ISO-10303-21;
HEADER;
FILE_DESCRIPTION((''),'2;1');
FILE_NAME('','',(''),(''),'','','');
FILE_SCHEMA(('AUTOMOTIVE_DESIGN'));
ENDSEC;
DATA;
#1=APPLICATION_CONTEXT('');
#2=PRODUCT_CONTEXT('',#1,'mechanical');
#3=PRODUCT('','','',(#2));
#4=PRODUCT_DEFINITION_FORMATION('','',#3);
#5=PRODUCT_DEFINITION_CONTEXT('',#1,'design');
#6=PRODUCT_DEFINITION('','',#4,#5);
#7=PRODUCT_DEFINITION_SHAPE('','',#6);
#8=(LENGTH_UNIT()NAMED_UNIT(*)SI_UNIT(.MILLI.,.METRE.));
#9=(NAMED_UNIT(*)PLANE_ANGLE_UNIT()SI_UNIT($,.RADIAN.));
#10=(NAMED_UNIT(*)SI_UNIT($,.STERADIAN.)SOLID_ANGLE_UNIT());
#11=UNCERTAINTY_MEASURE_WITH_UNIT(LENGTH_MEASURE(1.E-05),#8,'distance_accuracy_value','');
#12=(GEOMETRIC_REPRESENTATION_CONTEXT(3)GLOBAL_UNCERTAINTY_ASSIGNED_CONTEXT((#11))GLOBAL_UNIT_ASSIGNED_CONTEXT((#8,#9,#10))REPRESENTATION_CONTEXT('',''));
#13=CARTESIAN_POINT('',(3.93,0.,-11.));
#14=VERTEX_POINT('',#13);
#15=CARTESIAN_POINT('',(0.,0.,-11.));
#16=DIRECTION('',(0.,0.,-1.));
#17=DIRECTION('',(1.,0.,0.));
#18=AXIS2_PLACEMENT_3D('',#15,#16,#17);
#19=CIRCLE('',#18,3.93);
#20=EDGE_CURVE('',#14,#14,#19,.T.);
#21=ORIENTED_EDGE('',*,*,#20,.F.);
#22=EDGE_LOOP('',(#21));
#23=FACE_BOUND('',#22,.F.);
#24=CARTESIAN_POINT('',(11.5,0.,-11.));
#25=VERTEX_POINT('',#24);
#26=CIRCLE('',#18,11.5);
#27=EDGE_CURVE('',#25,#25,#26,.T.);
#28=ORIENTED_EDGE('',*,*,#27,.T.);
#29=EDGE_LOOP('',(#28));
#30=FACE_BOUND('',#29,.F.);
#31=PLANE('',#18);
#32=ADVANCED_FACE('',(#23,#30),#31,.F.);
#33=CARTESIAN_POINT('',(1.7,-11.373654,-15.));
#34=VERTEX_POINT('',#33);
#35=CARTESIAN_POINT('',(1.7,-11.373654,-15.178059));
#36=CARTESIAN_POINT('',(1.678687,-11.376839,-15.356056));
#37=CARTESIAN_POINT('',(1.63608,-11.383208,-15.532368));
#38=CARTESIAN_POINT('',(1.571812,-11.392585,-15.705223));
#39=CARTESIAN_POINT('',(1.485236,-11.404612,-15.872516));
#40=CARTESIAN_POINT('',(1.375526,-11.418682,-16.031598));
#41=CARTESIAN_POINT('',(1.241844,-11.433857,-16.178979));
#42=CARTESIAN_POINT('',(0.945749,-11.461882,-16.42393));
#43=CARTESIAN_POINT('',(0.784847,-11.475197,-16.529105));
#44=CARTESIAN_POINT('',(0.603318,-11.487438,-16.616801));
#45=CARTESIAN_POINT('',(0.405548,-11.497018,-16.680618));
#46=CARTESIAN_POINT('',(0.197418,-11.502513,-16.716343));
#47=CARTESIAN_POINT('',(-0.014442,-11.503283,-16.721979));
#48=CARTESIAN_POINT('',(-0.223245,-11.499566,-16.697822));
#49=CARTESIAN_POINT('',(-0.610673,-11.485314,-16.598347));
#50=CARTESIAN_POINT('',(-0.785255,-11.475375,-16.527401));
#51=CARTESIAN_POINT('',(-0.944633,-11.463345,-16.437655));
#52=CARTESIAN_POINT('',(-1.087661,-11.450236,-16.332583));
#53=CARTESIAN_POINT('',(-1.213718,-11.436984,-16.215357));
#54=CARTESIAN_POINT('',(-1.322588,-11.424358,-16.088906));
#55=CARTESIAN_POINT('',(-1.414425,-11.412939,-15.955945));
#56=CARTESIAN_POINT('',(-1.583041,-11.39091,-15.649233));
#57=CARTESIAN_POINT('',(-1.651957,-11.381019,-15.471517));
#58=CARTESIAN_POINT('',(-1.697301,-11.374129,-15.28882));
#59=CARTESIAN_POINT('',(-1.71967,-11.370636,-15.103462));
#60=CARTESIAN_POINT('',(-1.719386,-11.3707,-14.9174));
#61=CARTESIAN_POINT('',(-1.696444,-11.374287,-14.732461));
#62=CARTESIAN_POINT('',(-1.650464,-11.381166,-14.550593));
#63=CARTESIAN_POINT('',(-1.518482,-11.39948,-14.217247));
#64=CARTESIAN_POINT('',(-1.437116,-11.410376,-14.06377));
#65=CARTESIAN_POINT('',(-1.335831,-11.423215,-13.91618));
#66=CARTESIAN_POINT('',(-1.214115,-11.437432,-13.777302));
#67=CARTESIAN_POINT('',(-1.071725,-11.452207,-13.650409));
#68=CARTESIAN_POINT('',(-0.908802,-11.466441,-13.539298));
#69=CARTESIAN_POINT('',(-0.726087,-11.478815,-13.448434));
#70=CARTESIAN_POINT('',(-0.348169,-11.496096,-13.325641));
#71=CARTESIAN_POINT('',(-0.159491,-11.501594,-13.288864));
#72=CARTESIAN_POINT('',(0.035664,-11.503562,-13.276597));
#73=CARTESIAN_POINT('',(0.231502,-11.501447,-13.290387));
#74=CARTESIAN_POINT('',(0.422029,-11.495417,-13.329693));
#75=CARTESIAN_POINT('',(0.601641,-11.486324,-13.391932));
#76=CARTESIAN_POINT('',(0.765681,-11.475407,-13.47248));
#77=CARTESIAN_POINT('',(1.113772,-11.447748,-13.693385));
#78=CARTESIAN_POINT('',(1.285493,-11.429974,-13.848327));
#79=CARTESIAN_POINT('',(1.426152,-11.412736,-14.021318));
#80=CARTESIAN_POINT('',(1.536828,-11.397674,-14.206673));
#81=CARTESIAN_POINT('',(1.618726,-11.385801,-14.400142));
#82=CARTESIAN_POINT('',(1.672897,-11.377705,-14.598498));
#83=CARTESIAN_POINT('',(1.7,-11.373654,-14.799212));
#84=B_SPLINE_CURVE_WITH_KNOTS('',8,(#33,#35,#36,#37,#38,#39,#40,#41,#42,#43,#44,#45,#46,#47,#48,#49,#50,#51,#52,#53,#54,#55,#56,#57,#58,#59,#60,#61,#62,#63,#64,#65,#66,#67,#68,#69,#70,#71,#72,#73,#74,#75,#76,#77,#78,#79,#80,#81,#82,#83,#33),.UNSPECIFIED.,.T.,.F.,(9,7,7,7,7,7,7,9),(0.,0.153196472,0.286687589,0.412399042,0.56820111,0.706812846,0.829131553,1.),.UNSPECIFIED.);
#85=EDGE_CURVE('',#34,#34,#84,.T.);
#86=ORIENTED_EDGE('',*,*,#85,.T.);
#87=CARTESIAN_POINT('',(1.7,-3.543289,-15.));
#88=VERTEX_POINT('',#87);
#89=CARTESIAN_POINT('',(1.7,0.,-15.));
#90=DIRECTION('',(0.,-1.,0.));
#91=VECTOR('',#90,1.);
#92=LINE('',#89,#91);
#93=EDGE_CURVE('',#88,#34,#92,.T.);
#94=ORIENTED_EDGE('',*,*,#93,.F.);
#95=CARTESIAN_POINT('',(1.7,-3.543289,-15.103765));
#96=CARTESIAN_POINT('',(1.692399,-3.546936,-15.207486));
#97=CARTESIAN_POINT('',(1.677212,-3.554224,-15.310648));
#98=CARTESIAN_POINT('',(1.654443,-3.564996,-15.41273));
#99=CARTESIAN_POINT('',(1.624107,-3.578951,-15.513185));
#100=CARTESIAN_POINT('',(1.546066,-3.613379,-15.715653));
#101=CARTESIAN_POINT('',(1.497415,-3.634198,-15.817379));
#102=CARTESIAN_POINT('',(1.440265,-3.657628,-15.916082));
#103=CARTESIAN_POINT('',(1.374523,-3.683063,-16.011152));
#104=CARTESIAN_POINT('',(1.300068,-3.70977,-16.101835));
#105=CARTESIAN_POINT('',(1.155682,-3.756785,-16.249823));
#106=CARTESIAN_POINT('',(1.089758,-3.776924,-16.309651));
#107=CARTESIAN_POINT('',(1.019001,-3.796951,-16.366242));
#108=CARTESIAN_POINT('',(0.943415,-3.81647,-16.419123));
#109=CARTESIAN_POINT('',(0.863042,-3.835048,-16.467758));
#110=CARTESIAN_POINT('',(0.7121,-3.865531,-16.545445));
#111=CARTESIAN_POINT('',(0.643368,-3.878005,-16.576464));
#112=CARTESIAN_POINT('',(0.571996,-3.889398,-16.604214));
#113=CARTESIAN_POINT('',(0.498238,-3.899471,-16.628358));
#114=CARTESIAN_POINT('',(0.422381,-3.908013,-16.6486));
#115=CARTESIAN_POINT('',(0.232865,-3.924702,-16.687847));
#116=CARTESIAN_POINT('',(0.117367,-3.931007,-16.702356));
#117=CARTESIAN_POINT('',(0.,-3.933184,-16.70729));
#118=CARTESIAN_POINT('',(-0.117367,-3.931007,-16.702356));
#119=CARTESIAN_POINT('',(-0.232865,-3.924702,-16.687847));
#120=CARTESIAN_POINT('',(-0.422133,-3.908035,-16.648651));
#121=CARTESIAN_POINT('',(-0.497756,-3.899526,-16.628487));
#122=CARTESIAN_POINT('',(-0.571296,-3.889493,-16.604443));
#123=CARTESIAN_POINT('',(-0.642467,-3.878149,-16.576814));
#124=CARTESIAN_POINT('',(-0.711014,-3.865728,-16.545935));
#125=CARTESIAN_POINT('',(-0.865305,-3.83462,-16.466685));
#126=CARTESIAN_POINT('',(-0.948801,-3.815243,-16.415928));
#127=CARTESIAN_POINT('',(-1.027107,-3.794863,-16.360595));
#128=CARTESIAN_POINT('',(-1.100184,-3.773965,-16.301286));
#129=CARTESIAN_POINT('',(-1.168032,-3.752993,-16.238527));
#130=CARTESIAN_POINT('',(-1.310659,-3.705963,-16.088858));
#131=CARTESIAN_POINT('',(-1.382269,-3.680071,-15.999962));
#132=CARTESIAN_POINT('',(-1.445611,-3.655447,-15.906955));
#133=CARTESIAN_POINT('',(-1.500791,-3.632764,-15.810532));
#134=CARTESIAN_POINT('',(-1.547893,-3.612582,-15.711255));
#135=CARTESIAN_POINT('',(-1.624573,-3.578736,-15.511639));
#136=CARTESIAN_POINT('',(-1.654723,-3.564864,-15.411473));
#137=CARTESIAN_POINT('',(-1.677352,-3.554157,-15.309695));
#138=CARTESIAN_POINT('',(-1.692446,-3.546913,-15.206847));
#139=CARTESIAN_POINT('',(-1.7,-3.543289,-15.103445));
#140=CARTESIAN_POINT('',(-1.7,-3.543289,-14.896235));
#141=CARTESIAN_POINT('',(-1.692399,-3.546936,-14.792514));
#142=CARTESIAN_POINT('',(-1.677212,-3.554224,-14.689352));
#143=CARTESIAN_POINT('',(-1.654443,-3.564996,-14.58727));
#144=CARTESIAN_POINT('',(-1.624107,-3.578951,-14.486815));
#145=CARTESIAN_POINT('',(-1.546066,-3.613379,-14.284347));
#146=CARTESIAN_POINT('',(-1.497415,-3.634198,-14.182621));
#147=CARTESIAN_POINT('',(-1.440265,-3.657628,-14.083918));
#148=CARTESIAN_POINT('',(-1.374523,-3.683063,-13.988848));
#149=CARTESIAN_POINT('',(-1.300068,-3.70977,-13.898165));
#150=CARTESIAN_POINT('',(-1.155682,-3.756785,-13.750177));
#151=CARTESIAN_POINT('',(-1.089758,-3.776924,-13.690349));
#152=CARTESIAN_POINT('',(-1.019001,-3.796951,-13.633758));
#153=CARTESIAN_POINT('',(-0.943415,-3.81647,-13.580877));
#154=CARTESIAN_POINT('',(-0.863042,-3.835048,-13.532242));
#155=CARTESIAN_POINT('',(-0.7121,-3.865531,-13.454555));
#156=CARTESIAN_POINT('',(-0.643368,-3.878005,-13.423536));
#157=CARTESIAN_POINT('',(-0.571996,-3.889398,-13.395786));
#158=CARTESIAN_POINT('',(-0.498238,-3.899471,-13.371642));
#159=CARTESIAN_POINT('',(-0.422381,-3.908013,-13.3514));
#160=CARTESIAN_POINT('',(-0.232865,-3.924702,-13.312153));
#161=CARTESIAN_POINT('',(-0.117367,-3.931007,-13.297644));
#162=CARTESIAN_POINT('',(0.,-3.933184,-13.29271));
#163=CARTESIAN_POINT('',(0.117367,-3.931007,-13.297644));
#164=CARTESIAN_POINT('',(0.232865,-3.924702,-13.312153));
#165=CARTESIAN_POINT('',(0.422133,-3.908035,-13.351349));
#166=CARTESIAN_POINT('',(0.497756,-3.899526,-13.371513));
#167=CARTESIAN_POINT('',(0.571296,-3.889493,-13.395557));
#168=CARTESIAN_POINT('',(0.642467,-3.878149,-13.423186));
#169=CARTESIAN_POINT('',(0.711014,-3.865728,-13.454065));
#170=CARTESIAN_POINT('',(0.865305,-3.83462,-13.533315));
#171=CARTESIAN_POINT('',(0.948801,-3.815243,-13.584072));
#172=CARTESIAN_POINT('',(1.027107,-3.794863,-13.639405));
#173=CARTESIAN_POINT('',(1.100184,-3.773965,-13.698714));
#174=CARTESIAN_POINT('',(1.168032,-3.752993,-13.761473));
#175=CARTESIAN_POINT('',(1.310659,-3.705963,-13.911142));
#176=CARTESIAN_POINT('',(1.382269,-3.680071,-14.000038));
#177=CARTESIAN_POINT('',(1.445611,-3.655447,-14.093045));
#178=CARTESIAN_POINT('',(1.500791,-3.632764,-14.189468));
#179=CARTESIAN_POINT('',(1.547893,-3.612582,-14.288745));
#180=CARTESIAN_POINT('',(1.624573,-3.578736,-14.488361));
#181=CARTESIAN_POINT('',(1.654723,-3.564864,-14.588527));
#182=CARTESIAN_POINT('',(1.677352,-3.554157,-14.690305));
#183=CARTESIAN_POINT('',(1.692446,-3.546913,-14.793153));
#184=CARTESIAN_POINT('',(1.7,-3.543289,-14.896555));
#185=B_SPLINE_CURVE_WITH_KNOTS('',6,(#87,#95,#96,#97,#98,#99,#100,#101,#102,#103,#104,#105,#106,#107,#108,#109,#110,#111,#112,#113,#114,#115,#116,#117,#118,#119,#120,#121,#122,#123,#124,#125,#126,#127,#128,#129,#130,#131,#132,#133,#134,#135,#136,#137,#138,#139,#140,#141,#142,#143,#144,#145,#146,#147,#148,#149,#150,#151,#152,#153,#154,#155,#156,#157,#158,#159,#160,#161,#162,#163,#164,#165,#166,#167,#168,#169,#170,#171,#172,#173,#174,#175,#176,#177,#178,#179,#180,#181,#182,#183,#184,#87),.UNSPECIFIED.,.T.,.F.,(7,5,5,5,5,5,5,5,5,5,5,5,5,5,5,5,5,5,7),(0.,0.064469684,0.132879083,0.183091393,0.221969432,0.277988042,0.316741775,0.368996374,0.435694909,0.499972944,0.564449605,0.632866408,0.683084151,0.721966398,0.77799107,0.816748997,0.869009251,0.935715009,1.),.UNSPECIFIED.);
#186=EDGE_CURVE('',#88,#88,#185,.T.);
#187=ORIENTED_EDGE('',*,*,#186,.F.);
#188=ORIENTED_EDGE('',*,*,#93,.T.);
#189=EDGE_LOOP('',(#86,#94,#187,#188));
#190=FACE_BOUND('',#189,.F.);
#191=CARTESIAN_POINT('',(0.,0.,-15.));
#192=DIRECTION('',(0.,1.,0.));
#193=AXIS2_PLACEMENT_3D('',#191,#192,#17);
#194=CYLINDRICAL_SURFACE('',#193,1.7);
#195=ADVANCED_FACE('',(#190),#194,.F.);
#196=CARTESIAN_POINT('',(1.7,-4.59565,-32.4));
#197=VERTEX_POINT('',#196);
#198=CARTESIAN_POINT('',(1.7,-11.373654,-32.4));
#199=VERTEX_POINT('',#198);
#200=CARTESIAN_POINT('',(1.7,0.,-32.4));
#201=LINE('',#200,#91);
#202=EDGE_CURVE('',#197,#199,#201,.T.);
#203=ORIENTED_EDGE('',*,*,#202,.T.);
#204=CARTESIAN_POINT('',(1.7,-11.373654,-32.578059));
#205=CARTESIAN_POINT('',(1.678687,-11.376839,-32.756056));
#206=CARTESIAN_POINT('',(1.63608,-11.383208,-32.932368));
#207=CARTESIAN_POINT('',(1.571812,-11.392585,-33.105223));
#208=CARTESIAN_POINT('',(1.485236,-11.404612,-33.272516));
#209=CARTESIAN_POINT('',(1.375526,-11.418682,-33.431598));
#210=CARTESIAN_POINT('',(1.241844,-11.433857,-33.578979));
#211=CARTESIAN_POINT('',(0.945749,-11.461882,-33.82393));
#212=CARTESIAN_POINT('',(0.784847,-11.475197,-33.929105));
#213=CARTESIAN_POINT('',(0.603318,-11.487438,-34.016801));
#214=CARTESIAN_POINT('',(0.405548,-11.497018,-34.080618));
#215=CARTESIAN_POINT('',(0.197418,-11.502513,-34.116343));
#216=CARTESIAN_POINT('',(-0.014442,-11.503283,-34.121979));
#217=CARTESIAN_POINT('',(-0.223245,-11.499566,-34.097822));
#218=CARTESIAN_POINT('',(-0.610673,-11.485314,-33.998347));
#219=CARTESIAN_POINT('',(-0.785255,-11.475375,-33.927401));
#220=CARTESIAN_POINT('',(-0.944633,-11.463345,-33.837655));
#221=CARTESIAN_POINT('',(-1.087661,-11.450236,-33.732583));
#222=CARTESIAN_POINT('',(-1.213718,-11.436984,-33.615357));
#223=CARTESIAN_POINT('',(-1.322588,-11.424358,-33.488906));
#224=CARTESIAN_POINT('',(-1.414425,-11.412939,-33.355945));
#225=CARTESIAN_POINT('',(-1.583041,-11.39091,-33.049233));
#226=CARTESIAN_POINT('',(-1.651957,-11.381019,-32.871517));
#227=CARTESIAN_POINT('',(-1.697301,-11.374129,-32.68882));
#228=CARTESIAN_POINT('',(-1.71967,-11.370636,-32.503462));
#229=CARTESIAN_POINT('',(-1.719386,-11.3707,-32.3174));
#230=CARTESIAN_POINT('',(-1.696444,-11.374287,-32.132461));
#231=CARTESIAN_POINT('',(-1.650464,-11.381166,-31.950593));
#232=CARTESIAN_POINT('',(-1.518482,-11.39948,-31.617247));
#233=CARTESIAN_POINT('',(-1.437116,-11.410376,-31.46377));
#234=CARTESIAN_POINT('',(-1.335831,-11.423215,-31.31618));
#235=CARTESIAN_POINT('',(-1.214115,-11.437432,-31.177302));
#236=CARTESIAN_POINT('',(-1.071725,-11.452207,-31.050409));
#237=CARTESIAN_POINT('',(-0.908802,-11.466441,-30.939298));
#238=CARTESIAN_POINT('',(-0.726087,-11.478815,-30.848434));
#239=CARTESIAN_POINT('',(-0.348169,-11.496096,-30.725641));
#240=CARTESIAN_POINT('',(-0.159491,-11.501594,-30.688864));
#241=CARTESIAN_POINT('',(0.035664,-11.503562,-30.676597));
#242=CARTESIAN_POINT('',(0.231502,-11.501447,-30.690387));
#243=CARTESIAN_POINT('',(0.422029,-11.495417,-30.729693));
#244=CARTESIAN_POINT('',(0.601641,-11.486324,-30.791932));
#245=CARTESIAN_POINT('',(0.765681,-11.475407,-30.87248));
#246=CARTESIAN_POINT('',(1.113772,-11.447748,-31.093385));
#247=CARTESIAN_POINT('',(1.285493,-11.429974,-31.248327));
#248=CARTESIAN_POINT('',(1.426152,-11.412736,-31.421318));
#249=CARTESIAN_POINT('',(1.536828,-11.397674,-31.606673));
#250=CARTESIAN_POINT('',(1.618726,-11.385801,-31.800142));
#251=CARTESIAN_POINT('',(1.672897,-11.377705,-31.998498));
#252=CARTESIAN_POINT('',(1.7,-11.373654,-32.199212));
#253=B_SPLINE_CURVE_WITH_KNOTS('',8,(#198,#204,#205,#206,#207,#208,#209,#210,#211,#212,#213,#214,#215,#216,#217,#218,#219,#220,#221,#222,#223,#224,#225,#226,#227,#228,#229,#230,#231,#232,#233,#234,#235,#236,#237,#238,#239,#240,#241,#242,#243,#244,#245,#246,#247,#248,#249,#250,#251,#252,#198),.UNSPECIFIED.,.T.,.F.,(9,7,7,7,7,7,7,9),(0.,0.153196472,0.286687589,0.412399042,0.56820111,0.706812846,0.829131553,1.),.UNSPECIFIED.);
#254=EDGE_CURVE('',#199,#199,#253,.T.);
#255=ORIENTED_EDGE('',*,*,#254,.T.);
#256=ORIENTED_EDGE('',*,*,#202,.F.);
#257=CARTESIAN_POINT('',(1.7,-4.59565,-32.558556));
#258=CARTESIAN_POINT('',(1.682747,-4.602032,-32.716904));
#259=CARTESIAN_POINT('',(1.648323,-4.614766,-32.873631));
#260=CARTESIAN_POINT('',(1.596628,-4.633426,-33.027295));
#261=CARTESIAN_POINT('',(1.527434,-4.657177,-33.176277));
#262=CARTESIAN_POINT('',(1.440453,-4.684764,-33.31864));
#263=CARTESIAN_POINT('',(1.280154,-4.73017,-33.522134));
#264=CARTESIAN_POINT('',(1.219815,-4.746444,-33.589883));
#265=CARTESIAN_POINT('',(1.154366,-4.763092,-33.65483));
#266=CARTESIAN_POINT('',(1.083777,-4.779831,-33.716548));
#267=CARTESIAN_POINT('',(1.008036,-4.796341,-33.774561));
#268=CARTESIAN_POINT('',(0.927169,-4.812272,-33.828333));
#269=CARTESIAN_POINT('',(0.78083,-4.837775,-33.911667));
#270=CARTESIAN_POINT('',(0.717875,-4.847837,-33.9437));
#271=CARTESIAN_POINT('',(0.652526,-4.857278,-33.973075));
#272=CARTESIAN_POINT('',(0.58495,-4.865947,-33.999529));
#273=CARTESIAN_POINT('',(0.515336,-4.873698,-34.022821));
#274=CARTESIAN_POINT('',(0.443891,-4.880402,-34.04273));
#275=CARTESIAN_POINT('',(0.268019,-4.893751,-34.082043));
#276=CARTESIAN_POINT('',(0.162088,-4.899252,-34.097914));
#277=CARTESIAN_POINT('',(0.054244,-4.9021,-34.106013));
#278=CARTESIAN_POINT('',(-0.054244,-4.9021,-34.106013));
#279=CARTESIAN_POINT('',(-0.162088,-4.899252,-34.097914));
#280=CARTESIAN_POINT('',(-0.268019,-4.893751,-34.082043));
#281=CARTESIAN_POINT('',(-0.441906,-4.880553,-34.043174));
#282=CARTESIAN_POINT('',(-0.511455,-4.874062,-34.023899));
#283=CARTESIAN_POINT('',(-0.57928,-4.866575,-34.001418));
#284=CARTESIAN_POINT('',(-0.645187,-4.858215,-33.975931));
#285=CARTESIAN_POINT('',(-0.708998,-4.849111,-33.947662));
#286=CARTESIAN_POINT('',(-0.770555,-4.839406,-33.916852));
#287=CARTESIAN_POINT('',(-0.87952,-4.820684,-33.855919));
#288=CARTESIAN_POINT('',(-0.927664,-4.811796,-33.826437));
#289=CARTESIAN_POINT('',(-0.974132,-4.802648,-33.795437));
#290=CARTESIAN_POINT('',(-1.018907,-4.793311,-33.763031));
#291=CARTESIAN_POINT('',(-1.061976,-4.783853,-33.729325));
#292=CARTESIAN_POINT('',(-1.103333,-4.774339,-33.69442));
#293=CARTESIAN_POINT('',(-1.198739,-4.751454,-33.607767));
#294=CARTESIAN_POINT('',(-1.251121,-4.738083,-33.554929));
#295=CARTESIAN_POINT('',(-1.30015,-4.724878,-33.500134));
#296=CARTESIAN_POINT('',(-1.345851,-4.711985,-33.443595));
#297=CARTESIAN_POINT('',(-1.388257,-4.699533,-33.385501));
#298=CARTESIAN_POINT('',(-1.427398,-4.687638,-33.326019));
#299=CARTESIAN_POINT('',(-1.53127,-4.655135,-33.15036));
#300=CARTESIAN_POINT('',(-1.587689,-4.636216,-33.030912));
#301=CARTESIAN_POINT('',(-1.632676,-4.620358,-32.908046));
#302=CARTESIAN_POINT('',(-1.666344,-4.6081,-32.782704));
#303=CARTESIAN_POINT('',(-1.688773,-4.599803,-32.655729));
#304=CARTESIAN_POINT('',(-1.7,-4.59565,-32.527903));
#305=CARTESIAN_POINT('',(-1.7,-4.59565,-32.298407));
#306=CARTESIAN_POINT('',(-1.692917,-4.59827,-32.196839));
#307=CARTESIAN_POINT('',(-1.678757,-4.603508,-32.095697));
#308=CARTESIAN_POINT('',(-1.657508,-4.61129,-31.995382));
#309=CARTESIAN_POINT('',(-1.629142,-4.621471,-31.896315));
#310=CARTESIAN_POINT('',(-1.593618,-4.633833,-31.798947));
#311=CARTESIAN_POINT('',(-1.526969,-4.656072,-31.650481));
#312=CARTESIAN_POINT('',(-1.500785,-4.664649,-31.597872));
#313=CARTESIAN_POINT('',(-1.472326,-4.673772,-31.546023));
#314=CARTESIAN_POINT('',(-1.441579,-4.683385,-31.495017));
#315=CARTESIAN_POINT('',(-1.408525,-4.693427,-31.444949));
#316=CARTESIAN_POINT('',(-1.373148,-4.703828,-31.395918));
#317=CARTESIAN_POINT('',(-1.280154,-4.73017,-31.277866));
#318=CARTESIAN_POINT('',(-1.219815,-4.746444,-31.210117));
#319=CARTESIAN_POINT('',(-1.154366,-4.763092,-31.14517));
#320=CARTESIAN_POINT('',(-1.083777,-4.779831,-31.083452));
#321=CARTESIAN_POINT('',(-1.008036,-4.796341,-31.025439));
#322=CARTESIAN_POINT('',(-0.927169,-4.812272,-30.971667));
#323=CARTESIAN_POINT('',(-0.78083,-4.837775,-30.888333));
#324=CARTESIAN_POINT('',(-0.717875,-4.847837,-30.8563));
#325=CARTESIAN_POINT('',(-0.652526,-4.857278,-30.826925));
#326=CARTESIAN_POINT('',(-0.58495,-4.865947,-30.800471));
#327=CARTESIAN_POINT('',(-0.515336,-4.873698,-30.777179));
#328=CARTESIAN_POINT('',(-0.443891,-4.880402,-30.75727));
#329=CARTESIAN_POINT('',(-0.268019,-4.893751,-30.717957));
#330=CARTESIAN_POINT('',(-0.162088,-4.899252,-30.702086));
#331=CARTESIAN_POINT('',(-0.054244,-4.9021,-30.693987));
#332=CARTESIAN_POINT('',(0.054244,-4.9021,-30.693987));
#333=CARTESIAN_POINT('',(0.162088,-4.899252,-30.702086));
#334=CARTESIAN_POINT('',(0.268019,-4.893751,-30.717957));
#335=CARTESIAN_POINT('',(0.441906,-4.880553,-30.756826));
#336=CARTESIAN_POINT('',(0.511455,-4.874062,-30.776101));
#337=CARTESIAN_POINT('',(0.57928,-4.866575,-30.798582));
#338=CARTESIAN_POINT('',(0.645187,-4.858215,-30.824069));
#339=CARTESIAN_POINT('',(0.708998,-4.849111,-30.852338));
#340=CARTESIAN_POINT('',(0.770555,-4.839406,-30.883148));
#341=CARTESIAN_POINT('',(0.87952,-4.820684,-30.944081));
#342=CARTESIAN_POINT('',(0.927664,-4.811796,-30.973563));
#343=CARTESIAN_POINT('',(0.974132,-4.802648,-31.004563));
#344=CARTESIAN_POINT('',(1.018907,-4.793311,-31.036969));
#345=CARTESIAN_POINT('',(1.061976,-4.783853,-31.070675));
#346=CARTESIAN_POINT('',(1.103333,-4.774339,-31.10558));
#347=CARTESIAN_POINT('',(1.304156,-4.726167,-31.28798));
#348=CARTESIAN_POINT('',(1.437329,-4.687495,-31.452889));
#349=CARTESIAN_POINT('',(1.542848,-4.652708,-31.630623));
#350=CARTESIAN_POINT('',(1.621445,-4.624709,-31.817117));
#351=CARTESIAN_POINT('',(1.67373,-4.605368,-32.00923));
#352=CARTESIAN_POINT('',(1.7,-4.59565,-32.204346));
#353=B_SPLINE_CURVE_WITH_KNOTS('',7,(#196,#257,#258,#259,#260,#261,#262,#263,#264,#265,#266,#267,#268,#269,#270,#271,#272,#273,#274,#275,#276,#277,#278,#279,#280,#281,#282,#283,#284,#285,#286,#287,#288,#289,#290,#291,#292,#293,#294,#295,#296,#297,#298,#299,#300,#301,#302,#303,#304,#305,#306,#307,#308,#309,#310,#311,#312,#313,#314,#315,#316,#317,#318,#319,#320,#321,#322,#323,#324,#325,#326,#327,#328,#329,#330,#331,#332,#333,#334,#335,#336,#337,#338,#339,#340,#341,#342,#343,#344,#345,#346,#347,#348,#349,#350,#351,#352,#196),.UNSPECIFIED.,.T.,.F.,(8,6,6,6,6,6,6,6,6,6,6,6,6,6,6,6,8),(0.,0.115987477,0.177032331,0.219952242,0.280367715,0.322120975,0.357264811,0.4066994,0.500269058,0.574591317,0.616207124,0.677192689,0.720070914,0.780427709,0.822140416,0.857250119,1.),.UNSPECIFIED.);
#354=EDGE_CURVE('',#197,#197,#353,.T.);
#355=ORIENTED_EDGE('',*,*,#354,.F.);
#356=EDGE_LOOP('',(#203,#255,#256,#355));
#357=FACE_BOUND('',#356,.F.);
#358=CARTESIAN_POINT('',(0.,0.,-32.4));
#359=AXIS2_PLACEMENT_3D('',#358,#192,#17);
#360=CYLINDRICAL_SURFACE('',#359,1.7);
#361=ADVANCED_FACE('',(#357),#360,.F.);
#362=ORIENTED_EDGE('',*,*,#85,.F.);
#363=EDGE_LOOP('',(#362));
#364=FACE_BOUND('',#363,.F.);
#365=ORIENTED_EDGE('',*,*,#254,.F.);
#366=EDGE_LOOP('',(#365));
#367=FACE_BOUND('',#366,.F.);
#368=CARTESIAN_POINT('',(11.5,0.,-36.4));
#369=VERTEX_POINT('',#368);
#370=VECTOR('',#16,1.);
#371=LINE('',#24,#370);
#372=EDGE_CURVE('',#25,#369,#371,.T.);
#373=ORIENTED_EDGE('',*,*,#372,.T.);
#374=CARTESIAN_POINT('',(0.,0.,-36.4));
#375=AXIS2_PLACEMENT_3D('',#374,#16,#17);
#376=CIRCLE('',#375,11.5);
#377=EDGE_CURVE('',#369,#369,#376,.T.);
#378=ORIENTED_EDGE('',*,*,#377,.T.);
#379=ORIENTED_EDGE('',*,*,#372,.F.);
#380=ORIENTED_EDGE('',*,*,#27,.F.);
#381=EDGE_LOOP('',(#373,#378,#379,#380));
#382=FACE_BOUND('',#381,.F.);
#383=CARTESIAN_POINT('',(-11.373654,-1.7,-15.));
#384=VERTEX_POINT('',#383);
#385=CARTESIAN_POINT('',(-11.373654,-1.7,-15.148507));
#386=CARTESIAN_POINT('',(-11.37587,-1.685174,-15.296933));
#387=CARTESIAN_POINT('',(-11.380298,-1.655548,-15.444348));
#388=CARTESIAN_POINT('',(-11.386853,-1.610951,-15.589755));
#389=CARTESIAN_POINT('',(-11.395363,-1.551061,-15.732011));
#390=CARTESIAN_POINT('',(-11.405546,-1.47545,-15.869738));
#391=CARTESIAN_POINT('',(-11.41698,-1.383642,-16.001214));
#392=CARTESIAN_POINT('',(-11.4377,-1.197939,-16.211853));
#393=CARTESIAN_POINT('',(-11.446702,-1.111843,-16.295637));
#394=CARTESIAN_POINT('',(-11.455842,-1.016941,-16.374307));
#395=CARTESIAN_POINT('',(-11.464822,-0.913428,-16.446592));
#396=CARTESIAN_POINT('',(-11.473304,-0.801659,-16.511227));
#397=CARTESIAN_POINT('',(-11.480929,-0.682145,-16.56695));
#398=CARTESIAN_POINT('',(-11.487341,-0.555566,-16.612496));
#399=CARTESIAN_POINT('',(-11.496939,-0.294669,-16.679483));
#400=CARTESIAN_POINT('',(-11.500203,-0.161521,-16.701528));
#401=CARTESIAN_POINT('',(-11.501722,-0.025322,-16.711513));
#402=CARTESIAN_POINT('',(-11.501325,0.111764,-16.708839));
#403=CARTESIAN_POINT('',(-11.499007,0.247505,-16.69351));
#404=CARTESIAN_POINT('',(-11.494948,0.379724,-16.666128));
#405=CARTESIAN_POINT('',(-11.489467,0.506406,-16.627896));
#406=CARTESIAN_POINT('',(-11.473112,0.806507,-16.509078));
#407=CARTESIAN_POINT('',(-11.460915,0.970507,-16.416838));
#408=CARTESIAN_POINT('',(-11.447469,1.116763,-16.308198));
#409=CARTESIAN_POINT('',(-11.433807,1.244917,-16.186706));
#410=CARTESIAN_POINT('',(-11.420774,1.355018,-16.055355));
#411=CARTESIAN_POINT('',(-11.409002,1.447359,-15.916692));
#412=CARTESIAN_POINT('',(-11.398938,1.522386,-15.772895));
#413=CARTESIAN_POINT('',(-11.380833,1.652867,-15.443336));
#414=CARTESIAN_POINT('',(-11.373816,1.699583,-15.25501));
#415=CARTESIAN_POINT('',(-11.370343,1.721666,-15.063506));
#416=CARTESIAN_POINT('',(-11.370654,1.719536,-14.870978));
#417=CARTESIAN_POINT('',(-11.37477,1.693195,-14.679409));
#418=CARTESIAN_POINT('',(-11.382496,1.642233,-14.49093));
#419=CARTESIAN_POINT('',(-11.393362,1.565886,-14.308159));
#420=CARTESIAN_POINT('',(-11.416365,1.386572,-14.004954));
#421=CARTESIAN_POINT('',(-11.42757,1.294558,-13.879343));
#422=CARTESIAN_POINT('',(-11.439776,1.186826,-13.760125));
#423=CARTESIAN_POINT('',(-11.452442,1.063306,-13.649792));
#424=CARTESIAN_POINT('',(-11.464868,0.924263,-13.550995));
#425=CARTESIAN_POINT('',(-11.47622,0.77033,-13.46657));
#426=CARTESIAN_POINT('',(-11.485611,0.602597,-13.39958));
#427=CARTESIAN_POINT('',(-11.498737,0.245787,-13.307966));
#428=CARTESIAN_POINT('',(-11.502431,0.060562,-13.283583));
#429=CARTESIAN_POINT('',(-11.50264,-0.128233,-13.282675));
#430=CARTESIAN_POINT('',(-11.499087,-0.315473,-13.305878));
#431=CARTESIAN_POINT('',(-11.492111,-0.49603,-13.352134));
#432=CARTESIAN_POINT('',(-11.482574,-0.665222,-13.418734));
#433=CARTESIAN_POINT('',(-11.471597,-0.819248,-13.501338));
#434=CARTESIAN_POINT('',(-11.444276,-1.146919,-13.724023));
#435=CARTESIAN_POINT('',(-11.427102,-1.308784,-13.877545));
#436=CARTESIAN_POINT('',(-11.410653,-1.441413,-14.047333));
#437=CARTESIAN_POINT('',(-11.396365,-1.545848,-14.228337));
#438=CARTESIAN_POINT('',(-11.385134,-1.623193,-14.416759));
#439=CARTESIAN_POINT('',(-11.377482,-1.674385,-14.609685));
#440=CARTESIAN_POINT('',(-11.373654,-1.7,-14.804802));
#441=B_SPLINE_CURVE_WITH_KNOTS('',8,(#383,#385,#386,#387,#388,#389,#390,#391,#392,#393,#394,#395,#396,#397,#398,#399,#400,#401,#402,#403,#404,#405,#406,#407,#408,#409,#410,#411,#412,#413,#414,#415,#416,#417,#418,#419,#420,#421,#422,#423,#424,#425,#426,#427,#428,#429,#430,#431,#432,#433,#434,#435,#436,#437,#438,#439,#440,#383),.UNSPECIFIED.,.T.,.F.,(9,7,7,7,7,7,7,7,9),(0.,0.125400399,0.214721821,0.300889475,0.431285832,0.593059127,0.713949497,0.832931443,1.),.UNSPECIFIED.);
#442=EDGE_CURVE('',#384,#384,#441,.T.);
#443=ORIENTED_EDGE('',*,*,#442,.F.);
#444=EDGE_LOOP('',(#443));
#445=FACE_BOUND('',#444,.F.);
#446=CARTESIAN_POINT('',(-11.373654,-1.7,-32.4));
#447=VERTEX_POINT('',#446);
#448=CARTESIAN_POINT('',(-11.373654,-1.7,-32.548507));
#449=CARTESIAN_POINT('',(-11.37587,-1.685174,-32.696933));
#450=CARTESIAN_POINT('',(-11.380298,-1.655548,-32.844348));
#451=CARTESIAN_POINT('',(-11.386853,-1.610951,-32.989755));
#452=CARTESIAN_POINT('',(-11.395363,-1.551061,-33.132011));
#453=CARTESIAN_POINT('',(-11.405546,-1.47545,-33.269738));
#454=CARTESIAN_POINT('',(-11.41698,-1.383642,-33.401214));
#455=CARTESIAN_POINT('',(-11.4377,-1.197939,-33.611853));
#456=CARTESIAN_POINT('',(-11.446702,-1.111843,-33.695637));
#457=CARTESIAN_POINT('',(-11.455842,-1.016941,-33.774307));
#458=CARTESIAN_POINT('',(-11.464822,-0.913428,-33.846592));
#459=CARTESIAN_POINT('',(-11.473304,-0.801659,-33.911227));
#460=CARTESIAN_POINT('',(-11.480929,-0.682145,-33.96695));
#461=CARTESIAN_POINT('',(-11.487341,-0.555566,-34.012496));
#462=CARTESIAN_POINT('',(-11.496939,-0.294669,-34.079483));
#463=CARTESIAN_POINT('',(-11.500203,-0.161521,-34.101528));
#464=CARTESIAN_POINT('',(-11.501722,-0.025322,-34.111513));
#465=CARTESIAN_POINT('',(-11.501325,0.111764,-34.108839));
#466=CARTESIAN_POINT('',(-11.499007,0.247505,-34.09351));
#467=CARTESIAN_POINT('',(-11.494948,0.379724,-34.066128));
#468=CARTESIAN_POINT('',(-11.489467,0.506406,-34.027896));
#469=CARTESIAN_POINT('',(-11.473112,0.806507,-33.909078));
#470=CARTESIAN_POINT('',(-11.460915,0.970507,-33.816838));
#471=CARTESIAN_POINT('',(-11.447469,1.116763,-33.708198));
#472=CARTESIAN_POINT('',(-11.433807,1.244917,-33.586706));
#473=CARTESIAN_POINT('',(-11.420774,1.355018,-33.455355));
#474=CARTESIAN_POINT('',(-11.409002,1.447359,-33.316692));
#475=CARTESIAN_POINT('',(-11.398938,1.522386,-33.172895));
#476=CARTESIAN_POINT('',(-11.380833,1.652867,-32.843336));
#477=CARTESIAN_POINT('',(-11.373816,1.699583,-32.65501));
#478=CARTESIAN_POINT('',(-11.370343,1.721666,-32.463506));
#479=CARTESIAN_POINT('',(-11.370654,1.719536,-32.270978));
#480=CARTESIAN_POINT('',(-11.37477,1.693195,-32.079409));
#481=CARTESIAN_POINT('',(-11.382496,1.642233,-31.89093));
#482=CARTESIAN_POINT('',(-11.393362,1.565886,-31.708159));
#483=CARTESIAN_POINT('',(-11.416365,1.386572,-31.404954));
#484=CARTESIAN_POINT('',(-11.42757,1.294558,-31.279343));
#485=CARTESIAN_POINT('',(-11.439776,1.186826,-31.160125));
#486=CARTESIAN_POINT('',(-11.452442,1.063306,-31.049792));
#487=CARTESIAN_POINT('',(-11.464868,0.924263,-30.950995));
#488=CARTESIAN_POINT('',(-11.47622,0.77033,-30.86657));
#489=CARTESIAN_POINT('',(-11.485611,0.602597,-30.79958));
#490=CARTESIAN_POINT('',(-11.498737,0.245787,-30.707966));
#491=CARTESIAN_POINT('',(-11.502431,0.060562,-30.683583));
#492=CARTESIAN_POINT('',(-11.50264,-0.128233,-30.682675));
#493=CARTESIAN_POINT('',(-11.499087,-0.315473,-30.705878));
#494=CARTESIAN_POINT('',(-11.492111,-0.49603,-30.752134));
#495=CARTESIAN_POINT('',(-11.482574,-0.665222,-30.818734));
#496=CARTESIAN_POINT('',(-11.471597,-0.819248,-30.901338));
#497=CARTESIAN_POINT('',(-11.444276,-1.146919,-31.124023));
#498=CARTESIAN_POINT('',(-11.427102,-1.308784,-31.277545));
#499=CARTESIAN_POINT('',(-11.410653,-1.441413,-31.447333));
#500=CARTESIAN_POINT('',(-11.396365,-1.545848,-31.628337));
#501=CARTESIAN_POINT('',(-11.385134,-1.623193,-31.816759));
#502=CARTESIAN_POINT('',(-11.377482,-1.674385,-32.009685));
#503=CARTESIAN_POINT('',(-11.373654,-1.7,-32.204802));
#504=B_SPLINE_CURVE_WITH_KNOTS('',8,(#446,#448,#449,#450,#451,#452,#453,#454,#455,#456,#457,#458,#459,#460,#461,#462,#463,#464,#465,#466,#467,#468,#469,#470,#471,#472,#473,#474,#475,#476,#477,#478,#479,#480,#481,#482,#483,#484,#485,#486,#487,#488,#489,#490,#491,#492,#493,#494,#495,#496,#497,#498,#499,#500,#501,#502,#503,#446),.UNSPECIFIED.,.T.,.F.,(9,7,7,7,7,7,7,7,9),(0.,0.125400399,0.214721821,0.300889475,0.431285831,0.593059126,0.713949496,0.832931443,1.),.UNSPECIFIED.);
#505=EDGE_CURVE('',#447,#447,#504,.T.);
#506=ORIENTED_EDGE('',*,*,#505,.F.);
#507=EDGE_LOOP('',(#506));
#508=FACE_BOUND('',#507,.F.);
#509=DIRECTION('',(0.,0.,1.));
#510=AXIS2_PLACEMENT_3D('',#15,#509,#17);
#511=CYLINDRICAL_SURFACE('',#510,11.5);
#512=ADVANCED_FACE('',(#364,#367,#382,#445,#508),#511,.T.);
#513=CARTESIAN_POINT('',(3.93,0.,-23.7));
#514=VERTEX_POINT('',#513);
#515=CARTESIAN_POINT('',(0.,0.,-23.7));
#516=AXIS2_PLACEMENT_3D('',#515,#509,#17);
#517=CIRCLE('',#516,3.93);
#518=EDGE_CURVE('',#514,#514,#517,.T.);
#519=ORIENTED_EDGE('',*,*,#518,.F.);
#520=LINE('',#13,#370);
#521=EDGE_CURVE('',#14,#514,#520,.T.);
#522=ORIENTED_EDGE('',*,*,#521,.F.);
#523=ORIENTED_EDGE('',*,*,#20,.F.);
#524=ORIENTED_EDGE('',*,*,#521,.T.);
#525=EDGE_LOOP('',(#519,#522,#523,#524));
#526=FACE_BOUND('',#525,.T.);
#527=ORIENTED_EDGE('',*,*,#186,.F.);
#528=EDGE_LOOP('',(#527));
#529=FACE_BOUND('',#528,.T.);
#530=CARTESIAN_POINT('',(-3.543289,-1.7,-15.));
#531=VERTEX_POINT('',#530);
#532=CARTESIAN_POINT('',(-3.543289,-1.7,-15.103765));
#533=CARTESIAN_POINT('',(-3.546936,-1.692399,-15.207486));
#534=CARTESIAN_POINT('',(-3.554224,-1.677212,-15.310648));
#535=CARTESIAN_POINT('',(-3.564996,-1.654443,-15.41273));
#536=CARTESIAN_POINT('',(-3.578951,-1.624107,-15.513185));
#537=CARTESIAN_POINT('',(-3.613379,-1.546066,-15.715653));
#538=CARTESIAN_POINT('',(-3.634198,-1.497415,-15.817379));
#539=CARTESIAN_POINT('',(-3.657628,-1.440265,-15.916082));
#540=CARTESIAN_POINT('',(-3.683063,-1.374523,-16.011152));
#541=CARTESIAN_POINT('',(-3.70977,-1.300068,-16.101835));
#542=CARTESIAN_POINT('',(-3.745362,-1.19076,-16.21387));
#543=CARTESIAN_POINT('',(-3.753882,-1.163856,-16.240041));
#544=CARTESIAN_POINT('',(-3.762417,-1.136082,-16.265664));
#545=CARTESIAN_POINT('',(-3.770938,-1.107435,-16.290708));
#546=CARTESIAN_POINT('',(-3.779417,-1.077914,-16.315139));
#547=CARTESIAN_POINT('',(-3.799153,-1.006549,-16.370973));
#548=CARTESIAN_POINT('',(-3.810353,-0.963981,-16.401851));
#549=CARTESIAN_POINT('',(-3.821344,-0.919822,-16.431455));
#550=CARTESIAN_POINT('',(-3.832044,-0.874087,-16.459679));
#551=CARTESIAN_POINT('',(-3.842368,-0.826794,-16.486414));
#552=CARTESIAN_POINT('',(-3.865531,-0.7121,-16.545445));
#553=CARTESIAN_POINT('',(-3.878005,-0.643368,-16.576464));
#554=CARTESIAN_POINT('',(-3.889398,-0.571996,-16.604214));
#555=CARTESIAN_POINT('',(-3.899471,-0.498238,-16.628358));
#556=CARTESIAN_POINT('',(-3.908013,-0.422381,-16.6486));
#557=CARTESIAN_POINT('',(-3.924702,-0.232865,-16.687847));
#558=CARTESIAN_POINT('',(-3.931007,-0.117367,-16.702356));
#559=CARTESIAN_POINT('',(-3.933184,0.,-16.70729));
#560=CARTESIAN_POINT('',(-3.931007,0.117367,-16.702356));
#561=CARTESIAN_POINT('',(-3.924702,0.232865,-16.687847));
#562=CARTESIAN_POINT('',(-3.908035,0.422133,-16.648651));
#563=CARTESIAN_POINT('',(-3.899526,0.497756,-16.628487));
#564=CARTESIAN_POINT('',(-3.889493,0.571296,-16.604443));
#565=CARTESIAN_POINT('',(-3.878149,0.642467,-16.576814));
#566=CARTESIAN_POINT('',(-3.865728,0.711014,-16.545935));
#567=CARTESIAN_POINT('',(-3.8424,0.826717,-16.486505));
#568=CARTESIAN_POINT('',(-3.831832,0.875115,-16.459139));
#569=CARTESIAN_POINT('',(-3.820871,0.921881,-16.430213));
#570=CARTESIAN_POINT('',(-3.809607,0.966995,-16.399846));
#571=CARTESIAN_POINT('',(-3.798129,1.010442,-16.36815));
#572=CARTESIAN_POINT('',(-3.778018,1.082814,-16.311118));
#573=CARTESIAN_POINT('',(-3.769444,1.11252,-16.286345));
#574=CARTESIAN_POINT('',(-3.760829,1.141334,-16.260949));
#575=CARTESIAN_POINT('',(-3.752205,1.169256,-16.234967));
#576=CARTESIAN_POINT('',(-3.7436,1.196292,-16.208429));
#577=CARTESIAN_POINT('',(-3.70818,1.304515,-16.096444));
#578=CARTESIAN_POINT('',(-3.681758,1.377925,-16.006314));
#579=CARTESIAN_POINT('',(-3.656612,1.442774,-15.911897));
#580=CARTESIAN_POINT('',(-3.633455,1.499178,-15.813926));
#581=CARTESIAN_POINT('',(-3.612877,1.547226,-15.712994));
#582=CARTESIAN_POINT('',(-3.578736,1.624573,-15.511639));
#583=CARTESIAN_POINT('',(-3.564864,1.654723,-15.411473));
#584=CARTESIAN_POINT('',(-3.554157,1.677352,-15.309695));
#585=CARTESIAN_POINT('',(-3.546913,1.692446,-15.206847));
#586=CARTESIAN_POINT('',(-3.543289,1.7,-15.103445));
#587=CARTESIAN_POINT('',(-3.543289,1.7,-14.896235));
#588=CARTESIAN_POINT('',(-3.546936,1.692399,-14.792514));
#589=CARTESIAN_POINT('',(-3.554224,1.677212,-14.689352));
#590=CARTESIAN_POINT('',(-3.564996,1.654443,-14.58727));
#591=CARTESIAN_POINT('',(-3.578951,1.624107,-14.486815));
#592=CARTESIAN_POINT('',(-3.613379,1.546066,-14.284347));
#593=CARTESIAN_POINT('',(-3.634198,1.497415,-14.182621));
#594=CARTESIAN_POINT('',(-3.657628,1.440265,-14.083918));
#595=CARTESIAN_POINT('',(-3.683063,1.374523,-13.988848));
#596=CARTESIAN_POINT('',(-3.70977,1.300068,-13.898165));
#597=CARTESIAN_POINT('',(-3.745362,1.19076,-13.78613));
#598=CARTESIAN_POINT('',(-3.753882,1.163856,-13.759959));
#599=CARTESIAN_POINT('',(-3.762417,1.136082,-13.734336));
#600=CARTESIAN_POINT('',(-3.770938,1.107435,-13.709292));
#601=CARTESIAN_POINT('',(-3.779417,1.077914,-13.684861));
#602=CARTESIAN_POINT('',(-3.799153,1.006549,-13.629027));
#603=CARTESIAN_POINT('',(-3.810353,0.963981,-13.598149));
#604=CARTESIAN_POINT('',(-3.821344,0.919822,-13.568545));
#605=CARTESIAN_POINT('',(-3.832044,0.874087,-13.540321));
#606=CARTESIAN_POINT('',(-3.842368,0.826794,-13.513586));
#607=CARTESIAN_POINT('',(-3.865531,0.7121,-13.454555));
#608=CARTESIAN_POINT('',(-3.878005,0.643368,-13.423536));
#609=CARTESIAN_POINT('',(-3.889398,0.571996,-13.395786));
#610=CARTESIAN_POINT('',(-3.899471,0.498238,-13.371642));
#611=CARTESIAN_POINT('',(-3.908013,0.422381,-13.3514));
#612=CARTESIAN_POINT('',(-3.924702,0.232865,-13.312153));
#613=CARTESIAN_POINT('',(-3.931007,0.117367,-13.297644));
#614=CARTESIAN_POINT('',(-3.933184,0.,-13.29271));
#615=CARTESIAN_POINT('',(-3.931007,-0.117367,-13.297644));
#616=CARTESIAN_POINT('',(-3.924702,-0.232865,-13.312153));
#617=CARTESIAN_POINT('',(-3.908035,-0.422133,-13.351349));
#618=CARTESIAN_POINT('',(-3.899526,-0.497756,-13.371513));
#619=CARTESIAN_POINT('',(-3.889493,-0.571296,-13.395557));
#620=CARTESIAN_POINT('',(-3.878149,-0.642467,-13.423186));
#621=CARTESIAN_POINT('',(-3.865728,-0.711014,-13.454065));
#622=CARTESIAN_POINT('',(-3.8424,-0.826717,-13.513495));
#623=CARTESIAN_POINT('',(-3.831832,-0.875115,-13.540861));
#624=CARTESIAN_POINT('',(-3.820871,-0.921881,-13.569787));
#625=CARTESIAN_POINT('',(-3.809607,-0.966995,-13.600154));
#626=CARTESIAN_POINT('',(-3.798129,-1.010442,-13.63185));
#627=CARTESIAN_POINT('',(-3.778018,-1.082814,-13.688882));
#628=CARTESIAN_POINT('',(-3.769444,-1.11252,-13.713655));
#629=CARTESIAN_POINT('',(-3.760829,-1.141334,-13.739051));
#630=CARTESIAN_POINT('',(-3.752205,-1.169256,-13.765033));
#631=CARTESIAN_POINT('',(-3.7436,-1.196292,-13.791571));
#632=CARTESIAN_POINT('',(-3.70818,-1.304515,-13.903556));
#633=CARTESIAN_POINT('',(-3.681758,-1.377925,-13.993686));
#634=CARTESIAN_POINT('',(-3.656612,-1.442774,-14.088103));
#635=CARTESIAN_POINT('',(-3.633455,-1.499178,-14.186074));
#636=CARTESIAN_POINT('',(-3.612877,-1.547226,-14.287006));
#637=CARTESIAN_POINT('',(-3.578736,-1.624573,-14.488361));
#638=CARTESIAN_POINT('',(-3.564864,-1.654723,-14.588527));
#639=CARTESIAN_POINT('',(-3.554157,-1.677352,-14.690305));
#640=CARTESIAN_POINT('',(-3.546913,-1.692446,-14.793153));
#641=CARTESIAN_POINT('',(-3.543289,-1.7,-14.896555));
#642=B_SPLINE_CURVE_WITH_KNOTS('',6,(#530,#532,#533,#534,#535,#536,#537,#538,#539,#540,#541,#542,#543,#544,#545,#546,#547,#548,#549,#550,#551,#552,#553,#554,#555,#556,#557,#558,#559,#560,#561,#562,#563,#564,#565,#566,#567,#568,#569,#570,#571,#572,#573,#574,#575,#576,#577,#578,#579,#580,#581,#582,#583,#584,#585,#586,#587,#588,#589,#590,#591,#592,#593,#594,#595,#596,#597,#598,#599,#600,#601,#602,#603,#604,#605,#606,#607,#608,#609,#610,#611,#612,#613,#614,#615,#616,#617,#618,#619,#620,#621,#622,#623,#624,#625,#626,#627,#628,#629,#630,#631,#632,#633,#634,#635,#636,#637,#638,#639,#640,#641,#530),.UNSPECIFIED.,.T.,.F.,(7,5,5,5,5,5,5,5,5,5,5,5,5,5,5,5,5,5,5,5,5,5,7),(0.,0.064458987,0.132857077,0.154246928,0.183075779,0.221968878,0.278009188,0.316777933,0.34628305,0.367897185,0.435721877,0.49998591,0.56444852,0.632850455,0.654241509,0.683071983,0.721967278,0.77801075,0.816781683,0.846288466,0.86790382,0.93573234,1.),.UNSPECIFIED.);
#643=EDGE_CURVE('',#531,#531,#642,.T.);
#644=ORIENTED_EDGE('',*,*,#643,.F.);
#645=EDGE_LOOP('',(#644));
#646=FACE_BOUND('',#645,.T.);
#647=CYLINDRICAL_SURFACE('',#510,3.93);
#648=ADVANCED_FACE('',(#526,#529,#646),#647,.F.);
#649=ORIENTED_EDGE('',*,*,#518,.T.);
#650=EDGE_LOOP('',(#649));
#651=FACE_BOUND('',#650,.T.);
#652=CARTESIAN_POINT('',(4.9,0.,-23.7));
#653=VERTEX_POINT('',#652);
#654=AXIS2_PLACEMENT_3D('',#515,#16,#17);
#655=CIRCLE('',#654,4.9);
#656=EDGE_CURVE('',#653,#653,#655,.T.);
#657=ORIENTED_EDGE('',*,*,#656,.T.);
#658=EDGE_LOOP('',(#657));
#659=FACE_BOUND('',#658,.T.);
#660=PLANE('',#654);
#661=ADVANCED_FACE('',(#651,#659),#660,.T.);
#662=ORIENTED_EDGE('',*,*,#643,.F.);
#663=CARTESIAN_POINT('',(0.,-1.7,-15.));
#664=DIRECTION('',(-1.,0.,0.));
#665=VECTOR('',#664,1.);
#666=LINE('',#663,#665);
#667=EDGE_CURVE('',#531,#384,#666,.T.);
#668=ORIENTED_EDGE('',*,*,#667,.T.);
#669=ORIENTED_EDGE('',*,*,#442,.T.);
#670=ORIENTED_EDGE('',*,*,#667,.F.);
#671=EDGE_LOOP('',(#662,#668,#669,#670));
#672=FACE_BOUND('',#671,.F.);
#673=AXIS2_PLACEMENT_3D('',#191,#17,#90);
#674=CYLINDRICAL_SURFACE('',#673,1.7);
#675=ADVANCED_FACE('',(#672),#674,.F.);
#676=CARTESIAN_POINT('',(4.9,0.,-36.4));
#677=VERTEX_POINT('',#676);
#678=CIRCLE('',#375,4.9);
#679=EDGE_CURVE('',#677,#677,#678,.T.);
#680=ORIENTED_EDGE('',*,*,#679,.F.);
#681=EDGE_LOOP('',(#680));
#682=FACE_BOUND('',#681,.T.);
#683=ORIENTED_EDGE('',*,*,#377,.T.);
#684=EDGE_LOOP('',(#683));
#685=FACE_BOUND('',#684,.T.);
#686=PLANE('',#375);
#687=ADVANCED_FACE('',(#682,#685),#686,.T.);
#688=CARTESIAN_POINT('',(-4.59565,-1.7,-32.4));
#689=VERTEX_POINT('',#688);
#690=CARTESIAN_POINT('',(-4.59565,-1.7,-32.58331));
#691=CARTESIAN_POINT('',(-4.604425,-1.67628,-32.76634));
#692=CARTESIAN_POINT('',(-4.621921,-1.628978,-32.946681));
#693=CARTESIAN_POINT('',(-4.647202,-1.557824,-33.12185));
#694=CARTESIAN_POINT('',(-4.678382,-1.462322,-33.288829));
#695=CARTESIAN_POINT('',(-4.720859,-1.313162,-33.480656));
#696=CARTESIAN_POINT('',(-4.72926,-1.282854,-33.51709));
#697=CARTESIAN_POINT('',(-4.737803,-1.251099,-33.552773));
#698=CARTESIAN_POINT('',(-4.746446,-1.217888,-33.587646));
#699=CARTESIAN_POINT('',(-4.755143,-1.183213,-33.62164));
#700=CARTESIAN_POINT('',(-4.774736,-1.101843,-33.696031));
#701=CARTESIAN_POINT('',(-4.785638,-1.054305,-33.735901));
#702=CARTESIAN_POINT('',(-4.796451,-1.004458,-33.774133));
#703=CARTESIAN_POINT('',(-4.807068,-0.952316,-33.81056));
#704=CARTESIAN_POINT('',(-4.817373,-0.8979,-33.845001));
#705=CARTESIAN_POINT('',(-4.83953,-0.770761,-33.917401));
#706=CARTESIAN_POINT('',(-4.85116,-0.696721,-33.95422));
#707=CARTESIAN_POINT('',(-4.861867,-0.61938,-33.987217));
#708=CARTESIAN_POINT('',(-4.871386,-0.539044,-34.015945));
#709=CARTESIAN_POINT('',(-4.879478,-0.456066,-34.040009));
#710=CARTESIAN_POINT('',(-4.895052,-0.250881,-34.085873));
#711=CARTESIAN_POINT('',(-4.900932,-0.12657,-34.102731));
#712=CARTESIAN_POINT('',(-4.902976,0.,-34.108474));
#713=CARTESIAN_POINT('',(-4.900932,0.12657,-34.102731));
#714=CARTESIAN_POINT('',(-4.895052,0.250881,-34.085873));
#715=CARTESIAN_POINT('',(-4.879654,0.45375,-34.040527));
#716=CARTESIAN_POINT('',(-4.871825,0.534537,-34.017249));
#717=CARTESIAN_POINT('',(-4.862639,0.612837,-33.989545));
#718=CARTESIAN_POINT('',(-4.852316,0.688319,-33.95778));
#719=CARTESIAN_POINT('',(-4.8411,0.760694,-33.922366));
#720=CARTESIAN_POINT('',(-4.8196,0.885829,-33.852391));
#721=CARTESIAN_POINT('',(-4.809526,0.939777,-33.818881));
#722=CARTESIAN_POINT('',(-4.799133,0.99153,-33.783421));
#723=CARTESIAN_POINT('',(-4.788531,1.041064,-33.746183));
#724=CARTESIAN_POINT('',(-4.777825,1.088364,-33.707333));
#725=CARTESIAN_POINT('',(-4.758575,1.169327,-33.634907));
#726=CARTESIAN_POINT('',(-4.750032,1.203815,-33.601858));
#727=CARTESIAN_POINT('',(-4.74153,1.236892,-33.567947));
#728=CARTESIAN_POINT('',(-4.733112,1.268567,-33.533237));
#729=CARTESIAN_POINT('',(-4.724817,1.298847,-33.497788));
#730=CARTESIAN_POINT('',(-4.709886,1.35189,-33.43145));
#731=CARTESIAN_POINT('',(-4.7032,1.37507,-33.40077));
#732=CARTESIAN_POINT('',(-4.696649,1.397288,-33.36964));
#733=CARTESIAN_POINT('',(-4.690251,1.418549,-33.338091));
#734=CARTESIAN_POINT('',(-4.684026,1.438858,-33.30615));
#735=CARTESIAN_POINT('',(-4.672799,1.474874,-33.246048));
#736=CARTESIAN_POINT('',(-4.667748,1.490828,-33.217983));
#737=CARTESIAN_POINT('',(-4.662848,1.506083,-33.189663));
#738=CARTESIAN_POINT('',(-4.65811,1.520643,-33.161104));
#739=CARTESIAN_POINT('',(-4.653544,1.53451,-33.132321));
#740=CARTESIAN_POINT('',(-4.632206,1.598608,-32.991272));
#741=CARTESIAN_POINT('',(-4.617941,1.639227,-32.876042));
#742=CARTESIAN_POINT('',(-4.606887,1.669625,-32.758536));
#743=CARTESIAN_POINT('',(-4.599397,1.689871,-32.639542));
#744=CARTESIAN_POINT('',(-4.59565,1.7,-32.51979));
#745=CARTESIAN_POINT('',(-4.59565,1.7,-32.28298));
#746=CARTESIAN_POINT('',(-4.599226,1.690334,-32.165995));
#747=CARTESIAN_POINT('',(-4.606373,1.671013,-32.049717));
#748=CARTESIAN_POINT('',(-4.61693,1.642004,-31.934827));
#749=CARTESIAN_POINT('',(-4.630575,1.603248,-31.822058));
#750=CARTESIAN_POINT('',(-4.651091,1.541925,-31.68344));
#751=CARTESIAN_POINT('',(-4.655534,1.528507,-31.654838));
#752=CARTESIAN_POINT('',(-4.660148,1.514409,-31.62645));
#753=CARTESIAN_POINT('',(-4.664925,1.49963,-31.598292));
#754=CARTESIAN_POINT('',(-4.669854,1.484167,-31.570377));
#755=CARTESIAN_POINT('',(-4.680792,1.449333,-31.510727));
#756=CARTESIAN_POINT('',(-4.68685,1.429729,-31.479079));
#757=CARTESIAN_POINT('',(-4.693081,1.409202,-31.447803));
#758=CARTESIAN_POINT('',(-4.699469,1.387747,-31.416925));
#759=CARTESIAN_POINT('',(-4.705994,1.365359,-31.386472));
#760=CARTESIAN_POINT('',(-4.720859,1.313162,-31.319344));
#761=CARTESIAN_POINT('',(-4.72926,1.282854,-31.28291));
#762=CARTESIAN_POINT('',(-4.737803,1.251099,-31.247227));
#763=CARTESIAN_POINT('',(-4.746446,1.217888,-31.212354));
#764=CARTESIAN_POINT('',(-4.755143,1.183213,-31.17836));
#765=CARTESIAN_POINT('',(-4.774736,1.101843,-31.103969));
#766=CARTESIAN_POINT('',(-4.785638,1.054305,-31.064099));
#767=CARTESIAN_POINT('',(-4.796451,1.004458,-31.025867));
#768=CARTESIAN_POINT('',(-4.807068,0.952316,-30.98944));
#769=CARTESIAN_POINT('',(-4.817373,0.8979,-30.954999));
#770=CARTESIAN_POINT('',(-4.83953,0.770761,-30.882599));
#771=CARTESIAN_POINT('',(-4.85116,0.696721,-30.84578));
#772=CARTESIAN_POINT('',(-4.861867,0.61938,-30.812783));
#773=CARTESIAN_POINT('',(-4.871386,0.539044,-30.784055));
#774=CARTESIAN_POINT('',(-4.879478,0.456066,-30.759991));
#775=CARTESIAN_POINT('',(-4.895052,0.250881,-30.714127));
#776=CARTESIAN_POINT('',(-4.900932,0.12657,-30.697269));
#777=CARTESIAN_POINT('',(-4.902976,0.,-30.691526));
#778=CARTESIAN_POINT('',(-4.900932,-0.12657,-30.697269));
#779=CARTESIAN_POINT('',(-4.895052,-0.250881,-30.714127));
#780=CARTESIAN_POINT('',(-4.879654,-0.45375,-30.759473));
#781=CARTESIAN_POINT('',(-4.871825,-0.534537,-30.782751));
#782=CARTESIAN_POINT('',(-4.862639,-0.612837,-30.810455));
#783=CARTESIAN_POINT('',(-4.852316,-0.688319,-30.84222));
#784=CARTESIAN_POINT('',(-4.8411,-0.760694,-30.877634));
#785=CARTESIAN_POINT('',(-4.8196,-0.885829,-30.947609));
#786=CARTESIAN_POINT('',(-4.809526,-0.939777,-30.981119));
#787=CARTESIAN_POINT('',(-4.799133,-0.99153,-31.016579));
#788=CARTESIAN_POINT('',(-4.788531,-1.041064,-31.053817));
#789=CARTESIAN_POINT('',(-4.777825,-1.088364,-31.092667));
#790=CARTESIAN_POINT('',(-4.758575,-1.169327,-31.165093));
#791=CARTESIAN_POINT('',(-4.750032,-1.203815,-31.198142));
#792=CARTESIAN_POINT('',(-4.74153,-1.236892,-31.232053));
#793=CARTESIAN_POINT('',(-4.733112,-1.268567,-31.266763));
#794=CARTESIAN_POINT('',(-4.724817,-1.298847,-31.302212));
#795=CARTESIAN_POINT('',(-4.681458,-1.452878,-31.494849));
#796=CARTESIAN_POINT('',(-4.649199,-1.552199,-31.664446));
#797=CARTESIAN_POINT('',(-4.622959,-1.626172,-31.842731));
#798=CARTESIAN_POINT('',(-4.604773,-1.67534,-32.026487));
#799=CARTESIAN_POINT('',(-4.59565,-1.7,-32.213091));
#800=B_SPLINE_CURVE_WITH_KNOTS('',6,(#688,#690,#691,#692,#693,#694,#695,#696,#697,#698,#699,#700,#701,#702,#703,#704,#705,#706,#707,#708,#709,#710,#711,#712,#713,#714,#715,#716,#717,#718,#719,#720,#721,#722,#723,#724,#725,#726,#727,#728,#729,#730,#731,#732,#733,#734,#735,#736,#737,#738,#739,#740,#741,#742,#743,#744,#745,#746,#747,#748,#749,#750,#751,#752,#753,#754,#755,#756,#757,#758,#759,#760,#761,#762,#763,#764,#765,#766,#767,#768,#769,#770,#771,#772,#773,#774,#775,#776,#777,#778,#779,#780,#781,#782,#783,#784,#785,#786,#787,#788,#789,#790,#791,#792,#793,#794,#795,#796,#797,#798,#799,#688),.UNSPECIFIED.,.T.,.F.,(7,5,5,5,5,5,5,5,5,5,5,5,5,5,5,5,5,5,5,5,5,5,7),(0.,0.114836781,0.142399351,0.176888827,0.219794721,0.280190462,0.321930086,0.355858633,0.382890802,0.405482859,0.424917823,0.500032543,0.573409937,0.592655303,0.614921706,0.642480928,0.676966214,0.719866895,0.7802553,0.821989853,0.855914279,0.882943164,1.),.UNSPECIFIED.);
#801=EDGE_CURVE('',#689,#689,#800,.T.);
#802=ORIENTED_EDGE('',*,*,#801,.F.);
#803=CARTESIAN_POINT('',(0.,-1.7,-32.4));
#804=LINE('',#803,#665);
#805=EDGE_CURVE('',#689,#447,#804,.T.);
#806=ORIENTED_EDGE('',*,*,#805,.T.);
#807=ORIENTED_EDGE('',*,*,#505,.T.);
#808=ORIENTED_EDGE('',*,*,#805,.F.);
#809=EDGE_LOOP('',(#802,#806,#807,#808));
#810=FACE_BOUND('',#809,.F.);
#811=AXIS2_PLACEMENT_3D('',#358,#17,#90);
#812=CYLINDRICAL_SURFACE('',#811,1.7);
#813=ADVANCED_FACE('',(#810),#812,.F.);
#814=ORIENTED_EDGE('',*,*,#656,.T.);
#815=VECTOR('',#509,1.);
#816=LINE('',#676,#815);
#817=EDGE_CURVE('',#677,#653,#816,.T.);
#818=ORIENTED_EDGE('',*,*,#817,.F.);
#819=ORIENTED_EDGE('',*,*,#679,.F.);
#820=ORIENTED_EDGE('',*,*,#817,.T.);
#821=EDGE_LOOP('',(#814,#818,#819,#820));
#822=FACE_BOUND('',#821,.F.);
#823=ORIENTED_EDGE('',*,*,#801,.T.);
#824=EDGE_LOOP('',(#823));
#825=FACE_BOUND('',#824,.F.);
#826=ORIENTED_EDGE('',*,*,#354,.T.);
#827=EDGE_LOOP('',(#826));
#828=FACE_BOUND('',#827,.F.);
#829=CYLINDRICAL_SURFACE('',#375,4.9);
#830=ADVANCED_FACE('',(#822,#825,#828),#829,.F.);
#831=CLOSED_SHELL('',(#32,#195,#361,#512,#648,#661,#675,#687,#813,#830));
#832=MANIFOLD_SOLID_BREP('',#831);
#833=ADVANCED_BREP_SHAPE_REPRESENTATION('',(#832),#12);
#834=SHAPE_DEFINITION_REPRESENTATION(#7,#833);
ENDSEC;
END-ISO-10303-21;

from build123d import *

# Parameters (mm, degrees)
SKETCH_R                 = 11.5
SKETCH_R_2               = 3.93
PAD_DEPTH                = 25.4
SKETCH001_R              = 4.9
POCKET_DEPTH             = 12.7
SKETCH002_R              = 1.7
POCKET001_DEPTH          = 11.501
SKETCH003_R              = 1.7
POCKET002_DEPTH          = 11.501
CLONE001_PLACEMENT_ANGLE = 180


with BuildPart() as part:
    # Sketch → Pad (new body)
    with BuildSketch(Plane.XY):
        Circle(SKETCH_R)
        Circle(SKETCH_R_2, mode=Mode.SUBTRACT)
    extrude(amount=PAD_DEPTH)

    # Sketch001 (on Face4 of Pad) → Pocket (cut)
    with BuildSketch(Plane.XY.offset(25.4)):
        Circle(SKETCH001_R)
    extrude(amount=-POCKET_DEPTH, mode=Mode.SUBTRACT)

    # Sketch002 → Pocket001 (cut, through all)
    with BuildSketch(Plane.XZ):
        with Locations((0, 4)):
            Circle(SKETCH002_R)
        with Locations((0, 21.4)):
            Circle(SKETCH002_R)
    extrude(amount=-POCKET001_DEPTH, mode=Mode.SUBTRACT)

    # Sketch003 → Pocket002 (cut, through all)
    with BuildSketch(Plane.YZ):
        with Locations((0, 4)):
            Circle(SKETCH003_R)
        with Locations((0, 21.4)):
            Circle(SKETCH003_R)
    extrude(amount=-POCKET002_DEPTH, mode=Mode.SUBTRACT)


with BuildPart() as part_1:
    # Clone001 placement: moved
    add(part.part.moved(Location((0, 0, -11))).rotate(Axis((0, 0, -11), (1, 0, 0)), CLONE001_PLACEMENT_ANGLE))


solid = part_1.part
